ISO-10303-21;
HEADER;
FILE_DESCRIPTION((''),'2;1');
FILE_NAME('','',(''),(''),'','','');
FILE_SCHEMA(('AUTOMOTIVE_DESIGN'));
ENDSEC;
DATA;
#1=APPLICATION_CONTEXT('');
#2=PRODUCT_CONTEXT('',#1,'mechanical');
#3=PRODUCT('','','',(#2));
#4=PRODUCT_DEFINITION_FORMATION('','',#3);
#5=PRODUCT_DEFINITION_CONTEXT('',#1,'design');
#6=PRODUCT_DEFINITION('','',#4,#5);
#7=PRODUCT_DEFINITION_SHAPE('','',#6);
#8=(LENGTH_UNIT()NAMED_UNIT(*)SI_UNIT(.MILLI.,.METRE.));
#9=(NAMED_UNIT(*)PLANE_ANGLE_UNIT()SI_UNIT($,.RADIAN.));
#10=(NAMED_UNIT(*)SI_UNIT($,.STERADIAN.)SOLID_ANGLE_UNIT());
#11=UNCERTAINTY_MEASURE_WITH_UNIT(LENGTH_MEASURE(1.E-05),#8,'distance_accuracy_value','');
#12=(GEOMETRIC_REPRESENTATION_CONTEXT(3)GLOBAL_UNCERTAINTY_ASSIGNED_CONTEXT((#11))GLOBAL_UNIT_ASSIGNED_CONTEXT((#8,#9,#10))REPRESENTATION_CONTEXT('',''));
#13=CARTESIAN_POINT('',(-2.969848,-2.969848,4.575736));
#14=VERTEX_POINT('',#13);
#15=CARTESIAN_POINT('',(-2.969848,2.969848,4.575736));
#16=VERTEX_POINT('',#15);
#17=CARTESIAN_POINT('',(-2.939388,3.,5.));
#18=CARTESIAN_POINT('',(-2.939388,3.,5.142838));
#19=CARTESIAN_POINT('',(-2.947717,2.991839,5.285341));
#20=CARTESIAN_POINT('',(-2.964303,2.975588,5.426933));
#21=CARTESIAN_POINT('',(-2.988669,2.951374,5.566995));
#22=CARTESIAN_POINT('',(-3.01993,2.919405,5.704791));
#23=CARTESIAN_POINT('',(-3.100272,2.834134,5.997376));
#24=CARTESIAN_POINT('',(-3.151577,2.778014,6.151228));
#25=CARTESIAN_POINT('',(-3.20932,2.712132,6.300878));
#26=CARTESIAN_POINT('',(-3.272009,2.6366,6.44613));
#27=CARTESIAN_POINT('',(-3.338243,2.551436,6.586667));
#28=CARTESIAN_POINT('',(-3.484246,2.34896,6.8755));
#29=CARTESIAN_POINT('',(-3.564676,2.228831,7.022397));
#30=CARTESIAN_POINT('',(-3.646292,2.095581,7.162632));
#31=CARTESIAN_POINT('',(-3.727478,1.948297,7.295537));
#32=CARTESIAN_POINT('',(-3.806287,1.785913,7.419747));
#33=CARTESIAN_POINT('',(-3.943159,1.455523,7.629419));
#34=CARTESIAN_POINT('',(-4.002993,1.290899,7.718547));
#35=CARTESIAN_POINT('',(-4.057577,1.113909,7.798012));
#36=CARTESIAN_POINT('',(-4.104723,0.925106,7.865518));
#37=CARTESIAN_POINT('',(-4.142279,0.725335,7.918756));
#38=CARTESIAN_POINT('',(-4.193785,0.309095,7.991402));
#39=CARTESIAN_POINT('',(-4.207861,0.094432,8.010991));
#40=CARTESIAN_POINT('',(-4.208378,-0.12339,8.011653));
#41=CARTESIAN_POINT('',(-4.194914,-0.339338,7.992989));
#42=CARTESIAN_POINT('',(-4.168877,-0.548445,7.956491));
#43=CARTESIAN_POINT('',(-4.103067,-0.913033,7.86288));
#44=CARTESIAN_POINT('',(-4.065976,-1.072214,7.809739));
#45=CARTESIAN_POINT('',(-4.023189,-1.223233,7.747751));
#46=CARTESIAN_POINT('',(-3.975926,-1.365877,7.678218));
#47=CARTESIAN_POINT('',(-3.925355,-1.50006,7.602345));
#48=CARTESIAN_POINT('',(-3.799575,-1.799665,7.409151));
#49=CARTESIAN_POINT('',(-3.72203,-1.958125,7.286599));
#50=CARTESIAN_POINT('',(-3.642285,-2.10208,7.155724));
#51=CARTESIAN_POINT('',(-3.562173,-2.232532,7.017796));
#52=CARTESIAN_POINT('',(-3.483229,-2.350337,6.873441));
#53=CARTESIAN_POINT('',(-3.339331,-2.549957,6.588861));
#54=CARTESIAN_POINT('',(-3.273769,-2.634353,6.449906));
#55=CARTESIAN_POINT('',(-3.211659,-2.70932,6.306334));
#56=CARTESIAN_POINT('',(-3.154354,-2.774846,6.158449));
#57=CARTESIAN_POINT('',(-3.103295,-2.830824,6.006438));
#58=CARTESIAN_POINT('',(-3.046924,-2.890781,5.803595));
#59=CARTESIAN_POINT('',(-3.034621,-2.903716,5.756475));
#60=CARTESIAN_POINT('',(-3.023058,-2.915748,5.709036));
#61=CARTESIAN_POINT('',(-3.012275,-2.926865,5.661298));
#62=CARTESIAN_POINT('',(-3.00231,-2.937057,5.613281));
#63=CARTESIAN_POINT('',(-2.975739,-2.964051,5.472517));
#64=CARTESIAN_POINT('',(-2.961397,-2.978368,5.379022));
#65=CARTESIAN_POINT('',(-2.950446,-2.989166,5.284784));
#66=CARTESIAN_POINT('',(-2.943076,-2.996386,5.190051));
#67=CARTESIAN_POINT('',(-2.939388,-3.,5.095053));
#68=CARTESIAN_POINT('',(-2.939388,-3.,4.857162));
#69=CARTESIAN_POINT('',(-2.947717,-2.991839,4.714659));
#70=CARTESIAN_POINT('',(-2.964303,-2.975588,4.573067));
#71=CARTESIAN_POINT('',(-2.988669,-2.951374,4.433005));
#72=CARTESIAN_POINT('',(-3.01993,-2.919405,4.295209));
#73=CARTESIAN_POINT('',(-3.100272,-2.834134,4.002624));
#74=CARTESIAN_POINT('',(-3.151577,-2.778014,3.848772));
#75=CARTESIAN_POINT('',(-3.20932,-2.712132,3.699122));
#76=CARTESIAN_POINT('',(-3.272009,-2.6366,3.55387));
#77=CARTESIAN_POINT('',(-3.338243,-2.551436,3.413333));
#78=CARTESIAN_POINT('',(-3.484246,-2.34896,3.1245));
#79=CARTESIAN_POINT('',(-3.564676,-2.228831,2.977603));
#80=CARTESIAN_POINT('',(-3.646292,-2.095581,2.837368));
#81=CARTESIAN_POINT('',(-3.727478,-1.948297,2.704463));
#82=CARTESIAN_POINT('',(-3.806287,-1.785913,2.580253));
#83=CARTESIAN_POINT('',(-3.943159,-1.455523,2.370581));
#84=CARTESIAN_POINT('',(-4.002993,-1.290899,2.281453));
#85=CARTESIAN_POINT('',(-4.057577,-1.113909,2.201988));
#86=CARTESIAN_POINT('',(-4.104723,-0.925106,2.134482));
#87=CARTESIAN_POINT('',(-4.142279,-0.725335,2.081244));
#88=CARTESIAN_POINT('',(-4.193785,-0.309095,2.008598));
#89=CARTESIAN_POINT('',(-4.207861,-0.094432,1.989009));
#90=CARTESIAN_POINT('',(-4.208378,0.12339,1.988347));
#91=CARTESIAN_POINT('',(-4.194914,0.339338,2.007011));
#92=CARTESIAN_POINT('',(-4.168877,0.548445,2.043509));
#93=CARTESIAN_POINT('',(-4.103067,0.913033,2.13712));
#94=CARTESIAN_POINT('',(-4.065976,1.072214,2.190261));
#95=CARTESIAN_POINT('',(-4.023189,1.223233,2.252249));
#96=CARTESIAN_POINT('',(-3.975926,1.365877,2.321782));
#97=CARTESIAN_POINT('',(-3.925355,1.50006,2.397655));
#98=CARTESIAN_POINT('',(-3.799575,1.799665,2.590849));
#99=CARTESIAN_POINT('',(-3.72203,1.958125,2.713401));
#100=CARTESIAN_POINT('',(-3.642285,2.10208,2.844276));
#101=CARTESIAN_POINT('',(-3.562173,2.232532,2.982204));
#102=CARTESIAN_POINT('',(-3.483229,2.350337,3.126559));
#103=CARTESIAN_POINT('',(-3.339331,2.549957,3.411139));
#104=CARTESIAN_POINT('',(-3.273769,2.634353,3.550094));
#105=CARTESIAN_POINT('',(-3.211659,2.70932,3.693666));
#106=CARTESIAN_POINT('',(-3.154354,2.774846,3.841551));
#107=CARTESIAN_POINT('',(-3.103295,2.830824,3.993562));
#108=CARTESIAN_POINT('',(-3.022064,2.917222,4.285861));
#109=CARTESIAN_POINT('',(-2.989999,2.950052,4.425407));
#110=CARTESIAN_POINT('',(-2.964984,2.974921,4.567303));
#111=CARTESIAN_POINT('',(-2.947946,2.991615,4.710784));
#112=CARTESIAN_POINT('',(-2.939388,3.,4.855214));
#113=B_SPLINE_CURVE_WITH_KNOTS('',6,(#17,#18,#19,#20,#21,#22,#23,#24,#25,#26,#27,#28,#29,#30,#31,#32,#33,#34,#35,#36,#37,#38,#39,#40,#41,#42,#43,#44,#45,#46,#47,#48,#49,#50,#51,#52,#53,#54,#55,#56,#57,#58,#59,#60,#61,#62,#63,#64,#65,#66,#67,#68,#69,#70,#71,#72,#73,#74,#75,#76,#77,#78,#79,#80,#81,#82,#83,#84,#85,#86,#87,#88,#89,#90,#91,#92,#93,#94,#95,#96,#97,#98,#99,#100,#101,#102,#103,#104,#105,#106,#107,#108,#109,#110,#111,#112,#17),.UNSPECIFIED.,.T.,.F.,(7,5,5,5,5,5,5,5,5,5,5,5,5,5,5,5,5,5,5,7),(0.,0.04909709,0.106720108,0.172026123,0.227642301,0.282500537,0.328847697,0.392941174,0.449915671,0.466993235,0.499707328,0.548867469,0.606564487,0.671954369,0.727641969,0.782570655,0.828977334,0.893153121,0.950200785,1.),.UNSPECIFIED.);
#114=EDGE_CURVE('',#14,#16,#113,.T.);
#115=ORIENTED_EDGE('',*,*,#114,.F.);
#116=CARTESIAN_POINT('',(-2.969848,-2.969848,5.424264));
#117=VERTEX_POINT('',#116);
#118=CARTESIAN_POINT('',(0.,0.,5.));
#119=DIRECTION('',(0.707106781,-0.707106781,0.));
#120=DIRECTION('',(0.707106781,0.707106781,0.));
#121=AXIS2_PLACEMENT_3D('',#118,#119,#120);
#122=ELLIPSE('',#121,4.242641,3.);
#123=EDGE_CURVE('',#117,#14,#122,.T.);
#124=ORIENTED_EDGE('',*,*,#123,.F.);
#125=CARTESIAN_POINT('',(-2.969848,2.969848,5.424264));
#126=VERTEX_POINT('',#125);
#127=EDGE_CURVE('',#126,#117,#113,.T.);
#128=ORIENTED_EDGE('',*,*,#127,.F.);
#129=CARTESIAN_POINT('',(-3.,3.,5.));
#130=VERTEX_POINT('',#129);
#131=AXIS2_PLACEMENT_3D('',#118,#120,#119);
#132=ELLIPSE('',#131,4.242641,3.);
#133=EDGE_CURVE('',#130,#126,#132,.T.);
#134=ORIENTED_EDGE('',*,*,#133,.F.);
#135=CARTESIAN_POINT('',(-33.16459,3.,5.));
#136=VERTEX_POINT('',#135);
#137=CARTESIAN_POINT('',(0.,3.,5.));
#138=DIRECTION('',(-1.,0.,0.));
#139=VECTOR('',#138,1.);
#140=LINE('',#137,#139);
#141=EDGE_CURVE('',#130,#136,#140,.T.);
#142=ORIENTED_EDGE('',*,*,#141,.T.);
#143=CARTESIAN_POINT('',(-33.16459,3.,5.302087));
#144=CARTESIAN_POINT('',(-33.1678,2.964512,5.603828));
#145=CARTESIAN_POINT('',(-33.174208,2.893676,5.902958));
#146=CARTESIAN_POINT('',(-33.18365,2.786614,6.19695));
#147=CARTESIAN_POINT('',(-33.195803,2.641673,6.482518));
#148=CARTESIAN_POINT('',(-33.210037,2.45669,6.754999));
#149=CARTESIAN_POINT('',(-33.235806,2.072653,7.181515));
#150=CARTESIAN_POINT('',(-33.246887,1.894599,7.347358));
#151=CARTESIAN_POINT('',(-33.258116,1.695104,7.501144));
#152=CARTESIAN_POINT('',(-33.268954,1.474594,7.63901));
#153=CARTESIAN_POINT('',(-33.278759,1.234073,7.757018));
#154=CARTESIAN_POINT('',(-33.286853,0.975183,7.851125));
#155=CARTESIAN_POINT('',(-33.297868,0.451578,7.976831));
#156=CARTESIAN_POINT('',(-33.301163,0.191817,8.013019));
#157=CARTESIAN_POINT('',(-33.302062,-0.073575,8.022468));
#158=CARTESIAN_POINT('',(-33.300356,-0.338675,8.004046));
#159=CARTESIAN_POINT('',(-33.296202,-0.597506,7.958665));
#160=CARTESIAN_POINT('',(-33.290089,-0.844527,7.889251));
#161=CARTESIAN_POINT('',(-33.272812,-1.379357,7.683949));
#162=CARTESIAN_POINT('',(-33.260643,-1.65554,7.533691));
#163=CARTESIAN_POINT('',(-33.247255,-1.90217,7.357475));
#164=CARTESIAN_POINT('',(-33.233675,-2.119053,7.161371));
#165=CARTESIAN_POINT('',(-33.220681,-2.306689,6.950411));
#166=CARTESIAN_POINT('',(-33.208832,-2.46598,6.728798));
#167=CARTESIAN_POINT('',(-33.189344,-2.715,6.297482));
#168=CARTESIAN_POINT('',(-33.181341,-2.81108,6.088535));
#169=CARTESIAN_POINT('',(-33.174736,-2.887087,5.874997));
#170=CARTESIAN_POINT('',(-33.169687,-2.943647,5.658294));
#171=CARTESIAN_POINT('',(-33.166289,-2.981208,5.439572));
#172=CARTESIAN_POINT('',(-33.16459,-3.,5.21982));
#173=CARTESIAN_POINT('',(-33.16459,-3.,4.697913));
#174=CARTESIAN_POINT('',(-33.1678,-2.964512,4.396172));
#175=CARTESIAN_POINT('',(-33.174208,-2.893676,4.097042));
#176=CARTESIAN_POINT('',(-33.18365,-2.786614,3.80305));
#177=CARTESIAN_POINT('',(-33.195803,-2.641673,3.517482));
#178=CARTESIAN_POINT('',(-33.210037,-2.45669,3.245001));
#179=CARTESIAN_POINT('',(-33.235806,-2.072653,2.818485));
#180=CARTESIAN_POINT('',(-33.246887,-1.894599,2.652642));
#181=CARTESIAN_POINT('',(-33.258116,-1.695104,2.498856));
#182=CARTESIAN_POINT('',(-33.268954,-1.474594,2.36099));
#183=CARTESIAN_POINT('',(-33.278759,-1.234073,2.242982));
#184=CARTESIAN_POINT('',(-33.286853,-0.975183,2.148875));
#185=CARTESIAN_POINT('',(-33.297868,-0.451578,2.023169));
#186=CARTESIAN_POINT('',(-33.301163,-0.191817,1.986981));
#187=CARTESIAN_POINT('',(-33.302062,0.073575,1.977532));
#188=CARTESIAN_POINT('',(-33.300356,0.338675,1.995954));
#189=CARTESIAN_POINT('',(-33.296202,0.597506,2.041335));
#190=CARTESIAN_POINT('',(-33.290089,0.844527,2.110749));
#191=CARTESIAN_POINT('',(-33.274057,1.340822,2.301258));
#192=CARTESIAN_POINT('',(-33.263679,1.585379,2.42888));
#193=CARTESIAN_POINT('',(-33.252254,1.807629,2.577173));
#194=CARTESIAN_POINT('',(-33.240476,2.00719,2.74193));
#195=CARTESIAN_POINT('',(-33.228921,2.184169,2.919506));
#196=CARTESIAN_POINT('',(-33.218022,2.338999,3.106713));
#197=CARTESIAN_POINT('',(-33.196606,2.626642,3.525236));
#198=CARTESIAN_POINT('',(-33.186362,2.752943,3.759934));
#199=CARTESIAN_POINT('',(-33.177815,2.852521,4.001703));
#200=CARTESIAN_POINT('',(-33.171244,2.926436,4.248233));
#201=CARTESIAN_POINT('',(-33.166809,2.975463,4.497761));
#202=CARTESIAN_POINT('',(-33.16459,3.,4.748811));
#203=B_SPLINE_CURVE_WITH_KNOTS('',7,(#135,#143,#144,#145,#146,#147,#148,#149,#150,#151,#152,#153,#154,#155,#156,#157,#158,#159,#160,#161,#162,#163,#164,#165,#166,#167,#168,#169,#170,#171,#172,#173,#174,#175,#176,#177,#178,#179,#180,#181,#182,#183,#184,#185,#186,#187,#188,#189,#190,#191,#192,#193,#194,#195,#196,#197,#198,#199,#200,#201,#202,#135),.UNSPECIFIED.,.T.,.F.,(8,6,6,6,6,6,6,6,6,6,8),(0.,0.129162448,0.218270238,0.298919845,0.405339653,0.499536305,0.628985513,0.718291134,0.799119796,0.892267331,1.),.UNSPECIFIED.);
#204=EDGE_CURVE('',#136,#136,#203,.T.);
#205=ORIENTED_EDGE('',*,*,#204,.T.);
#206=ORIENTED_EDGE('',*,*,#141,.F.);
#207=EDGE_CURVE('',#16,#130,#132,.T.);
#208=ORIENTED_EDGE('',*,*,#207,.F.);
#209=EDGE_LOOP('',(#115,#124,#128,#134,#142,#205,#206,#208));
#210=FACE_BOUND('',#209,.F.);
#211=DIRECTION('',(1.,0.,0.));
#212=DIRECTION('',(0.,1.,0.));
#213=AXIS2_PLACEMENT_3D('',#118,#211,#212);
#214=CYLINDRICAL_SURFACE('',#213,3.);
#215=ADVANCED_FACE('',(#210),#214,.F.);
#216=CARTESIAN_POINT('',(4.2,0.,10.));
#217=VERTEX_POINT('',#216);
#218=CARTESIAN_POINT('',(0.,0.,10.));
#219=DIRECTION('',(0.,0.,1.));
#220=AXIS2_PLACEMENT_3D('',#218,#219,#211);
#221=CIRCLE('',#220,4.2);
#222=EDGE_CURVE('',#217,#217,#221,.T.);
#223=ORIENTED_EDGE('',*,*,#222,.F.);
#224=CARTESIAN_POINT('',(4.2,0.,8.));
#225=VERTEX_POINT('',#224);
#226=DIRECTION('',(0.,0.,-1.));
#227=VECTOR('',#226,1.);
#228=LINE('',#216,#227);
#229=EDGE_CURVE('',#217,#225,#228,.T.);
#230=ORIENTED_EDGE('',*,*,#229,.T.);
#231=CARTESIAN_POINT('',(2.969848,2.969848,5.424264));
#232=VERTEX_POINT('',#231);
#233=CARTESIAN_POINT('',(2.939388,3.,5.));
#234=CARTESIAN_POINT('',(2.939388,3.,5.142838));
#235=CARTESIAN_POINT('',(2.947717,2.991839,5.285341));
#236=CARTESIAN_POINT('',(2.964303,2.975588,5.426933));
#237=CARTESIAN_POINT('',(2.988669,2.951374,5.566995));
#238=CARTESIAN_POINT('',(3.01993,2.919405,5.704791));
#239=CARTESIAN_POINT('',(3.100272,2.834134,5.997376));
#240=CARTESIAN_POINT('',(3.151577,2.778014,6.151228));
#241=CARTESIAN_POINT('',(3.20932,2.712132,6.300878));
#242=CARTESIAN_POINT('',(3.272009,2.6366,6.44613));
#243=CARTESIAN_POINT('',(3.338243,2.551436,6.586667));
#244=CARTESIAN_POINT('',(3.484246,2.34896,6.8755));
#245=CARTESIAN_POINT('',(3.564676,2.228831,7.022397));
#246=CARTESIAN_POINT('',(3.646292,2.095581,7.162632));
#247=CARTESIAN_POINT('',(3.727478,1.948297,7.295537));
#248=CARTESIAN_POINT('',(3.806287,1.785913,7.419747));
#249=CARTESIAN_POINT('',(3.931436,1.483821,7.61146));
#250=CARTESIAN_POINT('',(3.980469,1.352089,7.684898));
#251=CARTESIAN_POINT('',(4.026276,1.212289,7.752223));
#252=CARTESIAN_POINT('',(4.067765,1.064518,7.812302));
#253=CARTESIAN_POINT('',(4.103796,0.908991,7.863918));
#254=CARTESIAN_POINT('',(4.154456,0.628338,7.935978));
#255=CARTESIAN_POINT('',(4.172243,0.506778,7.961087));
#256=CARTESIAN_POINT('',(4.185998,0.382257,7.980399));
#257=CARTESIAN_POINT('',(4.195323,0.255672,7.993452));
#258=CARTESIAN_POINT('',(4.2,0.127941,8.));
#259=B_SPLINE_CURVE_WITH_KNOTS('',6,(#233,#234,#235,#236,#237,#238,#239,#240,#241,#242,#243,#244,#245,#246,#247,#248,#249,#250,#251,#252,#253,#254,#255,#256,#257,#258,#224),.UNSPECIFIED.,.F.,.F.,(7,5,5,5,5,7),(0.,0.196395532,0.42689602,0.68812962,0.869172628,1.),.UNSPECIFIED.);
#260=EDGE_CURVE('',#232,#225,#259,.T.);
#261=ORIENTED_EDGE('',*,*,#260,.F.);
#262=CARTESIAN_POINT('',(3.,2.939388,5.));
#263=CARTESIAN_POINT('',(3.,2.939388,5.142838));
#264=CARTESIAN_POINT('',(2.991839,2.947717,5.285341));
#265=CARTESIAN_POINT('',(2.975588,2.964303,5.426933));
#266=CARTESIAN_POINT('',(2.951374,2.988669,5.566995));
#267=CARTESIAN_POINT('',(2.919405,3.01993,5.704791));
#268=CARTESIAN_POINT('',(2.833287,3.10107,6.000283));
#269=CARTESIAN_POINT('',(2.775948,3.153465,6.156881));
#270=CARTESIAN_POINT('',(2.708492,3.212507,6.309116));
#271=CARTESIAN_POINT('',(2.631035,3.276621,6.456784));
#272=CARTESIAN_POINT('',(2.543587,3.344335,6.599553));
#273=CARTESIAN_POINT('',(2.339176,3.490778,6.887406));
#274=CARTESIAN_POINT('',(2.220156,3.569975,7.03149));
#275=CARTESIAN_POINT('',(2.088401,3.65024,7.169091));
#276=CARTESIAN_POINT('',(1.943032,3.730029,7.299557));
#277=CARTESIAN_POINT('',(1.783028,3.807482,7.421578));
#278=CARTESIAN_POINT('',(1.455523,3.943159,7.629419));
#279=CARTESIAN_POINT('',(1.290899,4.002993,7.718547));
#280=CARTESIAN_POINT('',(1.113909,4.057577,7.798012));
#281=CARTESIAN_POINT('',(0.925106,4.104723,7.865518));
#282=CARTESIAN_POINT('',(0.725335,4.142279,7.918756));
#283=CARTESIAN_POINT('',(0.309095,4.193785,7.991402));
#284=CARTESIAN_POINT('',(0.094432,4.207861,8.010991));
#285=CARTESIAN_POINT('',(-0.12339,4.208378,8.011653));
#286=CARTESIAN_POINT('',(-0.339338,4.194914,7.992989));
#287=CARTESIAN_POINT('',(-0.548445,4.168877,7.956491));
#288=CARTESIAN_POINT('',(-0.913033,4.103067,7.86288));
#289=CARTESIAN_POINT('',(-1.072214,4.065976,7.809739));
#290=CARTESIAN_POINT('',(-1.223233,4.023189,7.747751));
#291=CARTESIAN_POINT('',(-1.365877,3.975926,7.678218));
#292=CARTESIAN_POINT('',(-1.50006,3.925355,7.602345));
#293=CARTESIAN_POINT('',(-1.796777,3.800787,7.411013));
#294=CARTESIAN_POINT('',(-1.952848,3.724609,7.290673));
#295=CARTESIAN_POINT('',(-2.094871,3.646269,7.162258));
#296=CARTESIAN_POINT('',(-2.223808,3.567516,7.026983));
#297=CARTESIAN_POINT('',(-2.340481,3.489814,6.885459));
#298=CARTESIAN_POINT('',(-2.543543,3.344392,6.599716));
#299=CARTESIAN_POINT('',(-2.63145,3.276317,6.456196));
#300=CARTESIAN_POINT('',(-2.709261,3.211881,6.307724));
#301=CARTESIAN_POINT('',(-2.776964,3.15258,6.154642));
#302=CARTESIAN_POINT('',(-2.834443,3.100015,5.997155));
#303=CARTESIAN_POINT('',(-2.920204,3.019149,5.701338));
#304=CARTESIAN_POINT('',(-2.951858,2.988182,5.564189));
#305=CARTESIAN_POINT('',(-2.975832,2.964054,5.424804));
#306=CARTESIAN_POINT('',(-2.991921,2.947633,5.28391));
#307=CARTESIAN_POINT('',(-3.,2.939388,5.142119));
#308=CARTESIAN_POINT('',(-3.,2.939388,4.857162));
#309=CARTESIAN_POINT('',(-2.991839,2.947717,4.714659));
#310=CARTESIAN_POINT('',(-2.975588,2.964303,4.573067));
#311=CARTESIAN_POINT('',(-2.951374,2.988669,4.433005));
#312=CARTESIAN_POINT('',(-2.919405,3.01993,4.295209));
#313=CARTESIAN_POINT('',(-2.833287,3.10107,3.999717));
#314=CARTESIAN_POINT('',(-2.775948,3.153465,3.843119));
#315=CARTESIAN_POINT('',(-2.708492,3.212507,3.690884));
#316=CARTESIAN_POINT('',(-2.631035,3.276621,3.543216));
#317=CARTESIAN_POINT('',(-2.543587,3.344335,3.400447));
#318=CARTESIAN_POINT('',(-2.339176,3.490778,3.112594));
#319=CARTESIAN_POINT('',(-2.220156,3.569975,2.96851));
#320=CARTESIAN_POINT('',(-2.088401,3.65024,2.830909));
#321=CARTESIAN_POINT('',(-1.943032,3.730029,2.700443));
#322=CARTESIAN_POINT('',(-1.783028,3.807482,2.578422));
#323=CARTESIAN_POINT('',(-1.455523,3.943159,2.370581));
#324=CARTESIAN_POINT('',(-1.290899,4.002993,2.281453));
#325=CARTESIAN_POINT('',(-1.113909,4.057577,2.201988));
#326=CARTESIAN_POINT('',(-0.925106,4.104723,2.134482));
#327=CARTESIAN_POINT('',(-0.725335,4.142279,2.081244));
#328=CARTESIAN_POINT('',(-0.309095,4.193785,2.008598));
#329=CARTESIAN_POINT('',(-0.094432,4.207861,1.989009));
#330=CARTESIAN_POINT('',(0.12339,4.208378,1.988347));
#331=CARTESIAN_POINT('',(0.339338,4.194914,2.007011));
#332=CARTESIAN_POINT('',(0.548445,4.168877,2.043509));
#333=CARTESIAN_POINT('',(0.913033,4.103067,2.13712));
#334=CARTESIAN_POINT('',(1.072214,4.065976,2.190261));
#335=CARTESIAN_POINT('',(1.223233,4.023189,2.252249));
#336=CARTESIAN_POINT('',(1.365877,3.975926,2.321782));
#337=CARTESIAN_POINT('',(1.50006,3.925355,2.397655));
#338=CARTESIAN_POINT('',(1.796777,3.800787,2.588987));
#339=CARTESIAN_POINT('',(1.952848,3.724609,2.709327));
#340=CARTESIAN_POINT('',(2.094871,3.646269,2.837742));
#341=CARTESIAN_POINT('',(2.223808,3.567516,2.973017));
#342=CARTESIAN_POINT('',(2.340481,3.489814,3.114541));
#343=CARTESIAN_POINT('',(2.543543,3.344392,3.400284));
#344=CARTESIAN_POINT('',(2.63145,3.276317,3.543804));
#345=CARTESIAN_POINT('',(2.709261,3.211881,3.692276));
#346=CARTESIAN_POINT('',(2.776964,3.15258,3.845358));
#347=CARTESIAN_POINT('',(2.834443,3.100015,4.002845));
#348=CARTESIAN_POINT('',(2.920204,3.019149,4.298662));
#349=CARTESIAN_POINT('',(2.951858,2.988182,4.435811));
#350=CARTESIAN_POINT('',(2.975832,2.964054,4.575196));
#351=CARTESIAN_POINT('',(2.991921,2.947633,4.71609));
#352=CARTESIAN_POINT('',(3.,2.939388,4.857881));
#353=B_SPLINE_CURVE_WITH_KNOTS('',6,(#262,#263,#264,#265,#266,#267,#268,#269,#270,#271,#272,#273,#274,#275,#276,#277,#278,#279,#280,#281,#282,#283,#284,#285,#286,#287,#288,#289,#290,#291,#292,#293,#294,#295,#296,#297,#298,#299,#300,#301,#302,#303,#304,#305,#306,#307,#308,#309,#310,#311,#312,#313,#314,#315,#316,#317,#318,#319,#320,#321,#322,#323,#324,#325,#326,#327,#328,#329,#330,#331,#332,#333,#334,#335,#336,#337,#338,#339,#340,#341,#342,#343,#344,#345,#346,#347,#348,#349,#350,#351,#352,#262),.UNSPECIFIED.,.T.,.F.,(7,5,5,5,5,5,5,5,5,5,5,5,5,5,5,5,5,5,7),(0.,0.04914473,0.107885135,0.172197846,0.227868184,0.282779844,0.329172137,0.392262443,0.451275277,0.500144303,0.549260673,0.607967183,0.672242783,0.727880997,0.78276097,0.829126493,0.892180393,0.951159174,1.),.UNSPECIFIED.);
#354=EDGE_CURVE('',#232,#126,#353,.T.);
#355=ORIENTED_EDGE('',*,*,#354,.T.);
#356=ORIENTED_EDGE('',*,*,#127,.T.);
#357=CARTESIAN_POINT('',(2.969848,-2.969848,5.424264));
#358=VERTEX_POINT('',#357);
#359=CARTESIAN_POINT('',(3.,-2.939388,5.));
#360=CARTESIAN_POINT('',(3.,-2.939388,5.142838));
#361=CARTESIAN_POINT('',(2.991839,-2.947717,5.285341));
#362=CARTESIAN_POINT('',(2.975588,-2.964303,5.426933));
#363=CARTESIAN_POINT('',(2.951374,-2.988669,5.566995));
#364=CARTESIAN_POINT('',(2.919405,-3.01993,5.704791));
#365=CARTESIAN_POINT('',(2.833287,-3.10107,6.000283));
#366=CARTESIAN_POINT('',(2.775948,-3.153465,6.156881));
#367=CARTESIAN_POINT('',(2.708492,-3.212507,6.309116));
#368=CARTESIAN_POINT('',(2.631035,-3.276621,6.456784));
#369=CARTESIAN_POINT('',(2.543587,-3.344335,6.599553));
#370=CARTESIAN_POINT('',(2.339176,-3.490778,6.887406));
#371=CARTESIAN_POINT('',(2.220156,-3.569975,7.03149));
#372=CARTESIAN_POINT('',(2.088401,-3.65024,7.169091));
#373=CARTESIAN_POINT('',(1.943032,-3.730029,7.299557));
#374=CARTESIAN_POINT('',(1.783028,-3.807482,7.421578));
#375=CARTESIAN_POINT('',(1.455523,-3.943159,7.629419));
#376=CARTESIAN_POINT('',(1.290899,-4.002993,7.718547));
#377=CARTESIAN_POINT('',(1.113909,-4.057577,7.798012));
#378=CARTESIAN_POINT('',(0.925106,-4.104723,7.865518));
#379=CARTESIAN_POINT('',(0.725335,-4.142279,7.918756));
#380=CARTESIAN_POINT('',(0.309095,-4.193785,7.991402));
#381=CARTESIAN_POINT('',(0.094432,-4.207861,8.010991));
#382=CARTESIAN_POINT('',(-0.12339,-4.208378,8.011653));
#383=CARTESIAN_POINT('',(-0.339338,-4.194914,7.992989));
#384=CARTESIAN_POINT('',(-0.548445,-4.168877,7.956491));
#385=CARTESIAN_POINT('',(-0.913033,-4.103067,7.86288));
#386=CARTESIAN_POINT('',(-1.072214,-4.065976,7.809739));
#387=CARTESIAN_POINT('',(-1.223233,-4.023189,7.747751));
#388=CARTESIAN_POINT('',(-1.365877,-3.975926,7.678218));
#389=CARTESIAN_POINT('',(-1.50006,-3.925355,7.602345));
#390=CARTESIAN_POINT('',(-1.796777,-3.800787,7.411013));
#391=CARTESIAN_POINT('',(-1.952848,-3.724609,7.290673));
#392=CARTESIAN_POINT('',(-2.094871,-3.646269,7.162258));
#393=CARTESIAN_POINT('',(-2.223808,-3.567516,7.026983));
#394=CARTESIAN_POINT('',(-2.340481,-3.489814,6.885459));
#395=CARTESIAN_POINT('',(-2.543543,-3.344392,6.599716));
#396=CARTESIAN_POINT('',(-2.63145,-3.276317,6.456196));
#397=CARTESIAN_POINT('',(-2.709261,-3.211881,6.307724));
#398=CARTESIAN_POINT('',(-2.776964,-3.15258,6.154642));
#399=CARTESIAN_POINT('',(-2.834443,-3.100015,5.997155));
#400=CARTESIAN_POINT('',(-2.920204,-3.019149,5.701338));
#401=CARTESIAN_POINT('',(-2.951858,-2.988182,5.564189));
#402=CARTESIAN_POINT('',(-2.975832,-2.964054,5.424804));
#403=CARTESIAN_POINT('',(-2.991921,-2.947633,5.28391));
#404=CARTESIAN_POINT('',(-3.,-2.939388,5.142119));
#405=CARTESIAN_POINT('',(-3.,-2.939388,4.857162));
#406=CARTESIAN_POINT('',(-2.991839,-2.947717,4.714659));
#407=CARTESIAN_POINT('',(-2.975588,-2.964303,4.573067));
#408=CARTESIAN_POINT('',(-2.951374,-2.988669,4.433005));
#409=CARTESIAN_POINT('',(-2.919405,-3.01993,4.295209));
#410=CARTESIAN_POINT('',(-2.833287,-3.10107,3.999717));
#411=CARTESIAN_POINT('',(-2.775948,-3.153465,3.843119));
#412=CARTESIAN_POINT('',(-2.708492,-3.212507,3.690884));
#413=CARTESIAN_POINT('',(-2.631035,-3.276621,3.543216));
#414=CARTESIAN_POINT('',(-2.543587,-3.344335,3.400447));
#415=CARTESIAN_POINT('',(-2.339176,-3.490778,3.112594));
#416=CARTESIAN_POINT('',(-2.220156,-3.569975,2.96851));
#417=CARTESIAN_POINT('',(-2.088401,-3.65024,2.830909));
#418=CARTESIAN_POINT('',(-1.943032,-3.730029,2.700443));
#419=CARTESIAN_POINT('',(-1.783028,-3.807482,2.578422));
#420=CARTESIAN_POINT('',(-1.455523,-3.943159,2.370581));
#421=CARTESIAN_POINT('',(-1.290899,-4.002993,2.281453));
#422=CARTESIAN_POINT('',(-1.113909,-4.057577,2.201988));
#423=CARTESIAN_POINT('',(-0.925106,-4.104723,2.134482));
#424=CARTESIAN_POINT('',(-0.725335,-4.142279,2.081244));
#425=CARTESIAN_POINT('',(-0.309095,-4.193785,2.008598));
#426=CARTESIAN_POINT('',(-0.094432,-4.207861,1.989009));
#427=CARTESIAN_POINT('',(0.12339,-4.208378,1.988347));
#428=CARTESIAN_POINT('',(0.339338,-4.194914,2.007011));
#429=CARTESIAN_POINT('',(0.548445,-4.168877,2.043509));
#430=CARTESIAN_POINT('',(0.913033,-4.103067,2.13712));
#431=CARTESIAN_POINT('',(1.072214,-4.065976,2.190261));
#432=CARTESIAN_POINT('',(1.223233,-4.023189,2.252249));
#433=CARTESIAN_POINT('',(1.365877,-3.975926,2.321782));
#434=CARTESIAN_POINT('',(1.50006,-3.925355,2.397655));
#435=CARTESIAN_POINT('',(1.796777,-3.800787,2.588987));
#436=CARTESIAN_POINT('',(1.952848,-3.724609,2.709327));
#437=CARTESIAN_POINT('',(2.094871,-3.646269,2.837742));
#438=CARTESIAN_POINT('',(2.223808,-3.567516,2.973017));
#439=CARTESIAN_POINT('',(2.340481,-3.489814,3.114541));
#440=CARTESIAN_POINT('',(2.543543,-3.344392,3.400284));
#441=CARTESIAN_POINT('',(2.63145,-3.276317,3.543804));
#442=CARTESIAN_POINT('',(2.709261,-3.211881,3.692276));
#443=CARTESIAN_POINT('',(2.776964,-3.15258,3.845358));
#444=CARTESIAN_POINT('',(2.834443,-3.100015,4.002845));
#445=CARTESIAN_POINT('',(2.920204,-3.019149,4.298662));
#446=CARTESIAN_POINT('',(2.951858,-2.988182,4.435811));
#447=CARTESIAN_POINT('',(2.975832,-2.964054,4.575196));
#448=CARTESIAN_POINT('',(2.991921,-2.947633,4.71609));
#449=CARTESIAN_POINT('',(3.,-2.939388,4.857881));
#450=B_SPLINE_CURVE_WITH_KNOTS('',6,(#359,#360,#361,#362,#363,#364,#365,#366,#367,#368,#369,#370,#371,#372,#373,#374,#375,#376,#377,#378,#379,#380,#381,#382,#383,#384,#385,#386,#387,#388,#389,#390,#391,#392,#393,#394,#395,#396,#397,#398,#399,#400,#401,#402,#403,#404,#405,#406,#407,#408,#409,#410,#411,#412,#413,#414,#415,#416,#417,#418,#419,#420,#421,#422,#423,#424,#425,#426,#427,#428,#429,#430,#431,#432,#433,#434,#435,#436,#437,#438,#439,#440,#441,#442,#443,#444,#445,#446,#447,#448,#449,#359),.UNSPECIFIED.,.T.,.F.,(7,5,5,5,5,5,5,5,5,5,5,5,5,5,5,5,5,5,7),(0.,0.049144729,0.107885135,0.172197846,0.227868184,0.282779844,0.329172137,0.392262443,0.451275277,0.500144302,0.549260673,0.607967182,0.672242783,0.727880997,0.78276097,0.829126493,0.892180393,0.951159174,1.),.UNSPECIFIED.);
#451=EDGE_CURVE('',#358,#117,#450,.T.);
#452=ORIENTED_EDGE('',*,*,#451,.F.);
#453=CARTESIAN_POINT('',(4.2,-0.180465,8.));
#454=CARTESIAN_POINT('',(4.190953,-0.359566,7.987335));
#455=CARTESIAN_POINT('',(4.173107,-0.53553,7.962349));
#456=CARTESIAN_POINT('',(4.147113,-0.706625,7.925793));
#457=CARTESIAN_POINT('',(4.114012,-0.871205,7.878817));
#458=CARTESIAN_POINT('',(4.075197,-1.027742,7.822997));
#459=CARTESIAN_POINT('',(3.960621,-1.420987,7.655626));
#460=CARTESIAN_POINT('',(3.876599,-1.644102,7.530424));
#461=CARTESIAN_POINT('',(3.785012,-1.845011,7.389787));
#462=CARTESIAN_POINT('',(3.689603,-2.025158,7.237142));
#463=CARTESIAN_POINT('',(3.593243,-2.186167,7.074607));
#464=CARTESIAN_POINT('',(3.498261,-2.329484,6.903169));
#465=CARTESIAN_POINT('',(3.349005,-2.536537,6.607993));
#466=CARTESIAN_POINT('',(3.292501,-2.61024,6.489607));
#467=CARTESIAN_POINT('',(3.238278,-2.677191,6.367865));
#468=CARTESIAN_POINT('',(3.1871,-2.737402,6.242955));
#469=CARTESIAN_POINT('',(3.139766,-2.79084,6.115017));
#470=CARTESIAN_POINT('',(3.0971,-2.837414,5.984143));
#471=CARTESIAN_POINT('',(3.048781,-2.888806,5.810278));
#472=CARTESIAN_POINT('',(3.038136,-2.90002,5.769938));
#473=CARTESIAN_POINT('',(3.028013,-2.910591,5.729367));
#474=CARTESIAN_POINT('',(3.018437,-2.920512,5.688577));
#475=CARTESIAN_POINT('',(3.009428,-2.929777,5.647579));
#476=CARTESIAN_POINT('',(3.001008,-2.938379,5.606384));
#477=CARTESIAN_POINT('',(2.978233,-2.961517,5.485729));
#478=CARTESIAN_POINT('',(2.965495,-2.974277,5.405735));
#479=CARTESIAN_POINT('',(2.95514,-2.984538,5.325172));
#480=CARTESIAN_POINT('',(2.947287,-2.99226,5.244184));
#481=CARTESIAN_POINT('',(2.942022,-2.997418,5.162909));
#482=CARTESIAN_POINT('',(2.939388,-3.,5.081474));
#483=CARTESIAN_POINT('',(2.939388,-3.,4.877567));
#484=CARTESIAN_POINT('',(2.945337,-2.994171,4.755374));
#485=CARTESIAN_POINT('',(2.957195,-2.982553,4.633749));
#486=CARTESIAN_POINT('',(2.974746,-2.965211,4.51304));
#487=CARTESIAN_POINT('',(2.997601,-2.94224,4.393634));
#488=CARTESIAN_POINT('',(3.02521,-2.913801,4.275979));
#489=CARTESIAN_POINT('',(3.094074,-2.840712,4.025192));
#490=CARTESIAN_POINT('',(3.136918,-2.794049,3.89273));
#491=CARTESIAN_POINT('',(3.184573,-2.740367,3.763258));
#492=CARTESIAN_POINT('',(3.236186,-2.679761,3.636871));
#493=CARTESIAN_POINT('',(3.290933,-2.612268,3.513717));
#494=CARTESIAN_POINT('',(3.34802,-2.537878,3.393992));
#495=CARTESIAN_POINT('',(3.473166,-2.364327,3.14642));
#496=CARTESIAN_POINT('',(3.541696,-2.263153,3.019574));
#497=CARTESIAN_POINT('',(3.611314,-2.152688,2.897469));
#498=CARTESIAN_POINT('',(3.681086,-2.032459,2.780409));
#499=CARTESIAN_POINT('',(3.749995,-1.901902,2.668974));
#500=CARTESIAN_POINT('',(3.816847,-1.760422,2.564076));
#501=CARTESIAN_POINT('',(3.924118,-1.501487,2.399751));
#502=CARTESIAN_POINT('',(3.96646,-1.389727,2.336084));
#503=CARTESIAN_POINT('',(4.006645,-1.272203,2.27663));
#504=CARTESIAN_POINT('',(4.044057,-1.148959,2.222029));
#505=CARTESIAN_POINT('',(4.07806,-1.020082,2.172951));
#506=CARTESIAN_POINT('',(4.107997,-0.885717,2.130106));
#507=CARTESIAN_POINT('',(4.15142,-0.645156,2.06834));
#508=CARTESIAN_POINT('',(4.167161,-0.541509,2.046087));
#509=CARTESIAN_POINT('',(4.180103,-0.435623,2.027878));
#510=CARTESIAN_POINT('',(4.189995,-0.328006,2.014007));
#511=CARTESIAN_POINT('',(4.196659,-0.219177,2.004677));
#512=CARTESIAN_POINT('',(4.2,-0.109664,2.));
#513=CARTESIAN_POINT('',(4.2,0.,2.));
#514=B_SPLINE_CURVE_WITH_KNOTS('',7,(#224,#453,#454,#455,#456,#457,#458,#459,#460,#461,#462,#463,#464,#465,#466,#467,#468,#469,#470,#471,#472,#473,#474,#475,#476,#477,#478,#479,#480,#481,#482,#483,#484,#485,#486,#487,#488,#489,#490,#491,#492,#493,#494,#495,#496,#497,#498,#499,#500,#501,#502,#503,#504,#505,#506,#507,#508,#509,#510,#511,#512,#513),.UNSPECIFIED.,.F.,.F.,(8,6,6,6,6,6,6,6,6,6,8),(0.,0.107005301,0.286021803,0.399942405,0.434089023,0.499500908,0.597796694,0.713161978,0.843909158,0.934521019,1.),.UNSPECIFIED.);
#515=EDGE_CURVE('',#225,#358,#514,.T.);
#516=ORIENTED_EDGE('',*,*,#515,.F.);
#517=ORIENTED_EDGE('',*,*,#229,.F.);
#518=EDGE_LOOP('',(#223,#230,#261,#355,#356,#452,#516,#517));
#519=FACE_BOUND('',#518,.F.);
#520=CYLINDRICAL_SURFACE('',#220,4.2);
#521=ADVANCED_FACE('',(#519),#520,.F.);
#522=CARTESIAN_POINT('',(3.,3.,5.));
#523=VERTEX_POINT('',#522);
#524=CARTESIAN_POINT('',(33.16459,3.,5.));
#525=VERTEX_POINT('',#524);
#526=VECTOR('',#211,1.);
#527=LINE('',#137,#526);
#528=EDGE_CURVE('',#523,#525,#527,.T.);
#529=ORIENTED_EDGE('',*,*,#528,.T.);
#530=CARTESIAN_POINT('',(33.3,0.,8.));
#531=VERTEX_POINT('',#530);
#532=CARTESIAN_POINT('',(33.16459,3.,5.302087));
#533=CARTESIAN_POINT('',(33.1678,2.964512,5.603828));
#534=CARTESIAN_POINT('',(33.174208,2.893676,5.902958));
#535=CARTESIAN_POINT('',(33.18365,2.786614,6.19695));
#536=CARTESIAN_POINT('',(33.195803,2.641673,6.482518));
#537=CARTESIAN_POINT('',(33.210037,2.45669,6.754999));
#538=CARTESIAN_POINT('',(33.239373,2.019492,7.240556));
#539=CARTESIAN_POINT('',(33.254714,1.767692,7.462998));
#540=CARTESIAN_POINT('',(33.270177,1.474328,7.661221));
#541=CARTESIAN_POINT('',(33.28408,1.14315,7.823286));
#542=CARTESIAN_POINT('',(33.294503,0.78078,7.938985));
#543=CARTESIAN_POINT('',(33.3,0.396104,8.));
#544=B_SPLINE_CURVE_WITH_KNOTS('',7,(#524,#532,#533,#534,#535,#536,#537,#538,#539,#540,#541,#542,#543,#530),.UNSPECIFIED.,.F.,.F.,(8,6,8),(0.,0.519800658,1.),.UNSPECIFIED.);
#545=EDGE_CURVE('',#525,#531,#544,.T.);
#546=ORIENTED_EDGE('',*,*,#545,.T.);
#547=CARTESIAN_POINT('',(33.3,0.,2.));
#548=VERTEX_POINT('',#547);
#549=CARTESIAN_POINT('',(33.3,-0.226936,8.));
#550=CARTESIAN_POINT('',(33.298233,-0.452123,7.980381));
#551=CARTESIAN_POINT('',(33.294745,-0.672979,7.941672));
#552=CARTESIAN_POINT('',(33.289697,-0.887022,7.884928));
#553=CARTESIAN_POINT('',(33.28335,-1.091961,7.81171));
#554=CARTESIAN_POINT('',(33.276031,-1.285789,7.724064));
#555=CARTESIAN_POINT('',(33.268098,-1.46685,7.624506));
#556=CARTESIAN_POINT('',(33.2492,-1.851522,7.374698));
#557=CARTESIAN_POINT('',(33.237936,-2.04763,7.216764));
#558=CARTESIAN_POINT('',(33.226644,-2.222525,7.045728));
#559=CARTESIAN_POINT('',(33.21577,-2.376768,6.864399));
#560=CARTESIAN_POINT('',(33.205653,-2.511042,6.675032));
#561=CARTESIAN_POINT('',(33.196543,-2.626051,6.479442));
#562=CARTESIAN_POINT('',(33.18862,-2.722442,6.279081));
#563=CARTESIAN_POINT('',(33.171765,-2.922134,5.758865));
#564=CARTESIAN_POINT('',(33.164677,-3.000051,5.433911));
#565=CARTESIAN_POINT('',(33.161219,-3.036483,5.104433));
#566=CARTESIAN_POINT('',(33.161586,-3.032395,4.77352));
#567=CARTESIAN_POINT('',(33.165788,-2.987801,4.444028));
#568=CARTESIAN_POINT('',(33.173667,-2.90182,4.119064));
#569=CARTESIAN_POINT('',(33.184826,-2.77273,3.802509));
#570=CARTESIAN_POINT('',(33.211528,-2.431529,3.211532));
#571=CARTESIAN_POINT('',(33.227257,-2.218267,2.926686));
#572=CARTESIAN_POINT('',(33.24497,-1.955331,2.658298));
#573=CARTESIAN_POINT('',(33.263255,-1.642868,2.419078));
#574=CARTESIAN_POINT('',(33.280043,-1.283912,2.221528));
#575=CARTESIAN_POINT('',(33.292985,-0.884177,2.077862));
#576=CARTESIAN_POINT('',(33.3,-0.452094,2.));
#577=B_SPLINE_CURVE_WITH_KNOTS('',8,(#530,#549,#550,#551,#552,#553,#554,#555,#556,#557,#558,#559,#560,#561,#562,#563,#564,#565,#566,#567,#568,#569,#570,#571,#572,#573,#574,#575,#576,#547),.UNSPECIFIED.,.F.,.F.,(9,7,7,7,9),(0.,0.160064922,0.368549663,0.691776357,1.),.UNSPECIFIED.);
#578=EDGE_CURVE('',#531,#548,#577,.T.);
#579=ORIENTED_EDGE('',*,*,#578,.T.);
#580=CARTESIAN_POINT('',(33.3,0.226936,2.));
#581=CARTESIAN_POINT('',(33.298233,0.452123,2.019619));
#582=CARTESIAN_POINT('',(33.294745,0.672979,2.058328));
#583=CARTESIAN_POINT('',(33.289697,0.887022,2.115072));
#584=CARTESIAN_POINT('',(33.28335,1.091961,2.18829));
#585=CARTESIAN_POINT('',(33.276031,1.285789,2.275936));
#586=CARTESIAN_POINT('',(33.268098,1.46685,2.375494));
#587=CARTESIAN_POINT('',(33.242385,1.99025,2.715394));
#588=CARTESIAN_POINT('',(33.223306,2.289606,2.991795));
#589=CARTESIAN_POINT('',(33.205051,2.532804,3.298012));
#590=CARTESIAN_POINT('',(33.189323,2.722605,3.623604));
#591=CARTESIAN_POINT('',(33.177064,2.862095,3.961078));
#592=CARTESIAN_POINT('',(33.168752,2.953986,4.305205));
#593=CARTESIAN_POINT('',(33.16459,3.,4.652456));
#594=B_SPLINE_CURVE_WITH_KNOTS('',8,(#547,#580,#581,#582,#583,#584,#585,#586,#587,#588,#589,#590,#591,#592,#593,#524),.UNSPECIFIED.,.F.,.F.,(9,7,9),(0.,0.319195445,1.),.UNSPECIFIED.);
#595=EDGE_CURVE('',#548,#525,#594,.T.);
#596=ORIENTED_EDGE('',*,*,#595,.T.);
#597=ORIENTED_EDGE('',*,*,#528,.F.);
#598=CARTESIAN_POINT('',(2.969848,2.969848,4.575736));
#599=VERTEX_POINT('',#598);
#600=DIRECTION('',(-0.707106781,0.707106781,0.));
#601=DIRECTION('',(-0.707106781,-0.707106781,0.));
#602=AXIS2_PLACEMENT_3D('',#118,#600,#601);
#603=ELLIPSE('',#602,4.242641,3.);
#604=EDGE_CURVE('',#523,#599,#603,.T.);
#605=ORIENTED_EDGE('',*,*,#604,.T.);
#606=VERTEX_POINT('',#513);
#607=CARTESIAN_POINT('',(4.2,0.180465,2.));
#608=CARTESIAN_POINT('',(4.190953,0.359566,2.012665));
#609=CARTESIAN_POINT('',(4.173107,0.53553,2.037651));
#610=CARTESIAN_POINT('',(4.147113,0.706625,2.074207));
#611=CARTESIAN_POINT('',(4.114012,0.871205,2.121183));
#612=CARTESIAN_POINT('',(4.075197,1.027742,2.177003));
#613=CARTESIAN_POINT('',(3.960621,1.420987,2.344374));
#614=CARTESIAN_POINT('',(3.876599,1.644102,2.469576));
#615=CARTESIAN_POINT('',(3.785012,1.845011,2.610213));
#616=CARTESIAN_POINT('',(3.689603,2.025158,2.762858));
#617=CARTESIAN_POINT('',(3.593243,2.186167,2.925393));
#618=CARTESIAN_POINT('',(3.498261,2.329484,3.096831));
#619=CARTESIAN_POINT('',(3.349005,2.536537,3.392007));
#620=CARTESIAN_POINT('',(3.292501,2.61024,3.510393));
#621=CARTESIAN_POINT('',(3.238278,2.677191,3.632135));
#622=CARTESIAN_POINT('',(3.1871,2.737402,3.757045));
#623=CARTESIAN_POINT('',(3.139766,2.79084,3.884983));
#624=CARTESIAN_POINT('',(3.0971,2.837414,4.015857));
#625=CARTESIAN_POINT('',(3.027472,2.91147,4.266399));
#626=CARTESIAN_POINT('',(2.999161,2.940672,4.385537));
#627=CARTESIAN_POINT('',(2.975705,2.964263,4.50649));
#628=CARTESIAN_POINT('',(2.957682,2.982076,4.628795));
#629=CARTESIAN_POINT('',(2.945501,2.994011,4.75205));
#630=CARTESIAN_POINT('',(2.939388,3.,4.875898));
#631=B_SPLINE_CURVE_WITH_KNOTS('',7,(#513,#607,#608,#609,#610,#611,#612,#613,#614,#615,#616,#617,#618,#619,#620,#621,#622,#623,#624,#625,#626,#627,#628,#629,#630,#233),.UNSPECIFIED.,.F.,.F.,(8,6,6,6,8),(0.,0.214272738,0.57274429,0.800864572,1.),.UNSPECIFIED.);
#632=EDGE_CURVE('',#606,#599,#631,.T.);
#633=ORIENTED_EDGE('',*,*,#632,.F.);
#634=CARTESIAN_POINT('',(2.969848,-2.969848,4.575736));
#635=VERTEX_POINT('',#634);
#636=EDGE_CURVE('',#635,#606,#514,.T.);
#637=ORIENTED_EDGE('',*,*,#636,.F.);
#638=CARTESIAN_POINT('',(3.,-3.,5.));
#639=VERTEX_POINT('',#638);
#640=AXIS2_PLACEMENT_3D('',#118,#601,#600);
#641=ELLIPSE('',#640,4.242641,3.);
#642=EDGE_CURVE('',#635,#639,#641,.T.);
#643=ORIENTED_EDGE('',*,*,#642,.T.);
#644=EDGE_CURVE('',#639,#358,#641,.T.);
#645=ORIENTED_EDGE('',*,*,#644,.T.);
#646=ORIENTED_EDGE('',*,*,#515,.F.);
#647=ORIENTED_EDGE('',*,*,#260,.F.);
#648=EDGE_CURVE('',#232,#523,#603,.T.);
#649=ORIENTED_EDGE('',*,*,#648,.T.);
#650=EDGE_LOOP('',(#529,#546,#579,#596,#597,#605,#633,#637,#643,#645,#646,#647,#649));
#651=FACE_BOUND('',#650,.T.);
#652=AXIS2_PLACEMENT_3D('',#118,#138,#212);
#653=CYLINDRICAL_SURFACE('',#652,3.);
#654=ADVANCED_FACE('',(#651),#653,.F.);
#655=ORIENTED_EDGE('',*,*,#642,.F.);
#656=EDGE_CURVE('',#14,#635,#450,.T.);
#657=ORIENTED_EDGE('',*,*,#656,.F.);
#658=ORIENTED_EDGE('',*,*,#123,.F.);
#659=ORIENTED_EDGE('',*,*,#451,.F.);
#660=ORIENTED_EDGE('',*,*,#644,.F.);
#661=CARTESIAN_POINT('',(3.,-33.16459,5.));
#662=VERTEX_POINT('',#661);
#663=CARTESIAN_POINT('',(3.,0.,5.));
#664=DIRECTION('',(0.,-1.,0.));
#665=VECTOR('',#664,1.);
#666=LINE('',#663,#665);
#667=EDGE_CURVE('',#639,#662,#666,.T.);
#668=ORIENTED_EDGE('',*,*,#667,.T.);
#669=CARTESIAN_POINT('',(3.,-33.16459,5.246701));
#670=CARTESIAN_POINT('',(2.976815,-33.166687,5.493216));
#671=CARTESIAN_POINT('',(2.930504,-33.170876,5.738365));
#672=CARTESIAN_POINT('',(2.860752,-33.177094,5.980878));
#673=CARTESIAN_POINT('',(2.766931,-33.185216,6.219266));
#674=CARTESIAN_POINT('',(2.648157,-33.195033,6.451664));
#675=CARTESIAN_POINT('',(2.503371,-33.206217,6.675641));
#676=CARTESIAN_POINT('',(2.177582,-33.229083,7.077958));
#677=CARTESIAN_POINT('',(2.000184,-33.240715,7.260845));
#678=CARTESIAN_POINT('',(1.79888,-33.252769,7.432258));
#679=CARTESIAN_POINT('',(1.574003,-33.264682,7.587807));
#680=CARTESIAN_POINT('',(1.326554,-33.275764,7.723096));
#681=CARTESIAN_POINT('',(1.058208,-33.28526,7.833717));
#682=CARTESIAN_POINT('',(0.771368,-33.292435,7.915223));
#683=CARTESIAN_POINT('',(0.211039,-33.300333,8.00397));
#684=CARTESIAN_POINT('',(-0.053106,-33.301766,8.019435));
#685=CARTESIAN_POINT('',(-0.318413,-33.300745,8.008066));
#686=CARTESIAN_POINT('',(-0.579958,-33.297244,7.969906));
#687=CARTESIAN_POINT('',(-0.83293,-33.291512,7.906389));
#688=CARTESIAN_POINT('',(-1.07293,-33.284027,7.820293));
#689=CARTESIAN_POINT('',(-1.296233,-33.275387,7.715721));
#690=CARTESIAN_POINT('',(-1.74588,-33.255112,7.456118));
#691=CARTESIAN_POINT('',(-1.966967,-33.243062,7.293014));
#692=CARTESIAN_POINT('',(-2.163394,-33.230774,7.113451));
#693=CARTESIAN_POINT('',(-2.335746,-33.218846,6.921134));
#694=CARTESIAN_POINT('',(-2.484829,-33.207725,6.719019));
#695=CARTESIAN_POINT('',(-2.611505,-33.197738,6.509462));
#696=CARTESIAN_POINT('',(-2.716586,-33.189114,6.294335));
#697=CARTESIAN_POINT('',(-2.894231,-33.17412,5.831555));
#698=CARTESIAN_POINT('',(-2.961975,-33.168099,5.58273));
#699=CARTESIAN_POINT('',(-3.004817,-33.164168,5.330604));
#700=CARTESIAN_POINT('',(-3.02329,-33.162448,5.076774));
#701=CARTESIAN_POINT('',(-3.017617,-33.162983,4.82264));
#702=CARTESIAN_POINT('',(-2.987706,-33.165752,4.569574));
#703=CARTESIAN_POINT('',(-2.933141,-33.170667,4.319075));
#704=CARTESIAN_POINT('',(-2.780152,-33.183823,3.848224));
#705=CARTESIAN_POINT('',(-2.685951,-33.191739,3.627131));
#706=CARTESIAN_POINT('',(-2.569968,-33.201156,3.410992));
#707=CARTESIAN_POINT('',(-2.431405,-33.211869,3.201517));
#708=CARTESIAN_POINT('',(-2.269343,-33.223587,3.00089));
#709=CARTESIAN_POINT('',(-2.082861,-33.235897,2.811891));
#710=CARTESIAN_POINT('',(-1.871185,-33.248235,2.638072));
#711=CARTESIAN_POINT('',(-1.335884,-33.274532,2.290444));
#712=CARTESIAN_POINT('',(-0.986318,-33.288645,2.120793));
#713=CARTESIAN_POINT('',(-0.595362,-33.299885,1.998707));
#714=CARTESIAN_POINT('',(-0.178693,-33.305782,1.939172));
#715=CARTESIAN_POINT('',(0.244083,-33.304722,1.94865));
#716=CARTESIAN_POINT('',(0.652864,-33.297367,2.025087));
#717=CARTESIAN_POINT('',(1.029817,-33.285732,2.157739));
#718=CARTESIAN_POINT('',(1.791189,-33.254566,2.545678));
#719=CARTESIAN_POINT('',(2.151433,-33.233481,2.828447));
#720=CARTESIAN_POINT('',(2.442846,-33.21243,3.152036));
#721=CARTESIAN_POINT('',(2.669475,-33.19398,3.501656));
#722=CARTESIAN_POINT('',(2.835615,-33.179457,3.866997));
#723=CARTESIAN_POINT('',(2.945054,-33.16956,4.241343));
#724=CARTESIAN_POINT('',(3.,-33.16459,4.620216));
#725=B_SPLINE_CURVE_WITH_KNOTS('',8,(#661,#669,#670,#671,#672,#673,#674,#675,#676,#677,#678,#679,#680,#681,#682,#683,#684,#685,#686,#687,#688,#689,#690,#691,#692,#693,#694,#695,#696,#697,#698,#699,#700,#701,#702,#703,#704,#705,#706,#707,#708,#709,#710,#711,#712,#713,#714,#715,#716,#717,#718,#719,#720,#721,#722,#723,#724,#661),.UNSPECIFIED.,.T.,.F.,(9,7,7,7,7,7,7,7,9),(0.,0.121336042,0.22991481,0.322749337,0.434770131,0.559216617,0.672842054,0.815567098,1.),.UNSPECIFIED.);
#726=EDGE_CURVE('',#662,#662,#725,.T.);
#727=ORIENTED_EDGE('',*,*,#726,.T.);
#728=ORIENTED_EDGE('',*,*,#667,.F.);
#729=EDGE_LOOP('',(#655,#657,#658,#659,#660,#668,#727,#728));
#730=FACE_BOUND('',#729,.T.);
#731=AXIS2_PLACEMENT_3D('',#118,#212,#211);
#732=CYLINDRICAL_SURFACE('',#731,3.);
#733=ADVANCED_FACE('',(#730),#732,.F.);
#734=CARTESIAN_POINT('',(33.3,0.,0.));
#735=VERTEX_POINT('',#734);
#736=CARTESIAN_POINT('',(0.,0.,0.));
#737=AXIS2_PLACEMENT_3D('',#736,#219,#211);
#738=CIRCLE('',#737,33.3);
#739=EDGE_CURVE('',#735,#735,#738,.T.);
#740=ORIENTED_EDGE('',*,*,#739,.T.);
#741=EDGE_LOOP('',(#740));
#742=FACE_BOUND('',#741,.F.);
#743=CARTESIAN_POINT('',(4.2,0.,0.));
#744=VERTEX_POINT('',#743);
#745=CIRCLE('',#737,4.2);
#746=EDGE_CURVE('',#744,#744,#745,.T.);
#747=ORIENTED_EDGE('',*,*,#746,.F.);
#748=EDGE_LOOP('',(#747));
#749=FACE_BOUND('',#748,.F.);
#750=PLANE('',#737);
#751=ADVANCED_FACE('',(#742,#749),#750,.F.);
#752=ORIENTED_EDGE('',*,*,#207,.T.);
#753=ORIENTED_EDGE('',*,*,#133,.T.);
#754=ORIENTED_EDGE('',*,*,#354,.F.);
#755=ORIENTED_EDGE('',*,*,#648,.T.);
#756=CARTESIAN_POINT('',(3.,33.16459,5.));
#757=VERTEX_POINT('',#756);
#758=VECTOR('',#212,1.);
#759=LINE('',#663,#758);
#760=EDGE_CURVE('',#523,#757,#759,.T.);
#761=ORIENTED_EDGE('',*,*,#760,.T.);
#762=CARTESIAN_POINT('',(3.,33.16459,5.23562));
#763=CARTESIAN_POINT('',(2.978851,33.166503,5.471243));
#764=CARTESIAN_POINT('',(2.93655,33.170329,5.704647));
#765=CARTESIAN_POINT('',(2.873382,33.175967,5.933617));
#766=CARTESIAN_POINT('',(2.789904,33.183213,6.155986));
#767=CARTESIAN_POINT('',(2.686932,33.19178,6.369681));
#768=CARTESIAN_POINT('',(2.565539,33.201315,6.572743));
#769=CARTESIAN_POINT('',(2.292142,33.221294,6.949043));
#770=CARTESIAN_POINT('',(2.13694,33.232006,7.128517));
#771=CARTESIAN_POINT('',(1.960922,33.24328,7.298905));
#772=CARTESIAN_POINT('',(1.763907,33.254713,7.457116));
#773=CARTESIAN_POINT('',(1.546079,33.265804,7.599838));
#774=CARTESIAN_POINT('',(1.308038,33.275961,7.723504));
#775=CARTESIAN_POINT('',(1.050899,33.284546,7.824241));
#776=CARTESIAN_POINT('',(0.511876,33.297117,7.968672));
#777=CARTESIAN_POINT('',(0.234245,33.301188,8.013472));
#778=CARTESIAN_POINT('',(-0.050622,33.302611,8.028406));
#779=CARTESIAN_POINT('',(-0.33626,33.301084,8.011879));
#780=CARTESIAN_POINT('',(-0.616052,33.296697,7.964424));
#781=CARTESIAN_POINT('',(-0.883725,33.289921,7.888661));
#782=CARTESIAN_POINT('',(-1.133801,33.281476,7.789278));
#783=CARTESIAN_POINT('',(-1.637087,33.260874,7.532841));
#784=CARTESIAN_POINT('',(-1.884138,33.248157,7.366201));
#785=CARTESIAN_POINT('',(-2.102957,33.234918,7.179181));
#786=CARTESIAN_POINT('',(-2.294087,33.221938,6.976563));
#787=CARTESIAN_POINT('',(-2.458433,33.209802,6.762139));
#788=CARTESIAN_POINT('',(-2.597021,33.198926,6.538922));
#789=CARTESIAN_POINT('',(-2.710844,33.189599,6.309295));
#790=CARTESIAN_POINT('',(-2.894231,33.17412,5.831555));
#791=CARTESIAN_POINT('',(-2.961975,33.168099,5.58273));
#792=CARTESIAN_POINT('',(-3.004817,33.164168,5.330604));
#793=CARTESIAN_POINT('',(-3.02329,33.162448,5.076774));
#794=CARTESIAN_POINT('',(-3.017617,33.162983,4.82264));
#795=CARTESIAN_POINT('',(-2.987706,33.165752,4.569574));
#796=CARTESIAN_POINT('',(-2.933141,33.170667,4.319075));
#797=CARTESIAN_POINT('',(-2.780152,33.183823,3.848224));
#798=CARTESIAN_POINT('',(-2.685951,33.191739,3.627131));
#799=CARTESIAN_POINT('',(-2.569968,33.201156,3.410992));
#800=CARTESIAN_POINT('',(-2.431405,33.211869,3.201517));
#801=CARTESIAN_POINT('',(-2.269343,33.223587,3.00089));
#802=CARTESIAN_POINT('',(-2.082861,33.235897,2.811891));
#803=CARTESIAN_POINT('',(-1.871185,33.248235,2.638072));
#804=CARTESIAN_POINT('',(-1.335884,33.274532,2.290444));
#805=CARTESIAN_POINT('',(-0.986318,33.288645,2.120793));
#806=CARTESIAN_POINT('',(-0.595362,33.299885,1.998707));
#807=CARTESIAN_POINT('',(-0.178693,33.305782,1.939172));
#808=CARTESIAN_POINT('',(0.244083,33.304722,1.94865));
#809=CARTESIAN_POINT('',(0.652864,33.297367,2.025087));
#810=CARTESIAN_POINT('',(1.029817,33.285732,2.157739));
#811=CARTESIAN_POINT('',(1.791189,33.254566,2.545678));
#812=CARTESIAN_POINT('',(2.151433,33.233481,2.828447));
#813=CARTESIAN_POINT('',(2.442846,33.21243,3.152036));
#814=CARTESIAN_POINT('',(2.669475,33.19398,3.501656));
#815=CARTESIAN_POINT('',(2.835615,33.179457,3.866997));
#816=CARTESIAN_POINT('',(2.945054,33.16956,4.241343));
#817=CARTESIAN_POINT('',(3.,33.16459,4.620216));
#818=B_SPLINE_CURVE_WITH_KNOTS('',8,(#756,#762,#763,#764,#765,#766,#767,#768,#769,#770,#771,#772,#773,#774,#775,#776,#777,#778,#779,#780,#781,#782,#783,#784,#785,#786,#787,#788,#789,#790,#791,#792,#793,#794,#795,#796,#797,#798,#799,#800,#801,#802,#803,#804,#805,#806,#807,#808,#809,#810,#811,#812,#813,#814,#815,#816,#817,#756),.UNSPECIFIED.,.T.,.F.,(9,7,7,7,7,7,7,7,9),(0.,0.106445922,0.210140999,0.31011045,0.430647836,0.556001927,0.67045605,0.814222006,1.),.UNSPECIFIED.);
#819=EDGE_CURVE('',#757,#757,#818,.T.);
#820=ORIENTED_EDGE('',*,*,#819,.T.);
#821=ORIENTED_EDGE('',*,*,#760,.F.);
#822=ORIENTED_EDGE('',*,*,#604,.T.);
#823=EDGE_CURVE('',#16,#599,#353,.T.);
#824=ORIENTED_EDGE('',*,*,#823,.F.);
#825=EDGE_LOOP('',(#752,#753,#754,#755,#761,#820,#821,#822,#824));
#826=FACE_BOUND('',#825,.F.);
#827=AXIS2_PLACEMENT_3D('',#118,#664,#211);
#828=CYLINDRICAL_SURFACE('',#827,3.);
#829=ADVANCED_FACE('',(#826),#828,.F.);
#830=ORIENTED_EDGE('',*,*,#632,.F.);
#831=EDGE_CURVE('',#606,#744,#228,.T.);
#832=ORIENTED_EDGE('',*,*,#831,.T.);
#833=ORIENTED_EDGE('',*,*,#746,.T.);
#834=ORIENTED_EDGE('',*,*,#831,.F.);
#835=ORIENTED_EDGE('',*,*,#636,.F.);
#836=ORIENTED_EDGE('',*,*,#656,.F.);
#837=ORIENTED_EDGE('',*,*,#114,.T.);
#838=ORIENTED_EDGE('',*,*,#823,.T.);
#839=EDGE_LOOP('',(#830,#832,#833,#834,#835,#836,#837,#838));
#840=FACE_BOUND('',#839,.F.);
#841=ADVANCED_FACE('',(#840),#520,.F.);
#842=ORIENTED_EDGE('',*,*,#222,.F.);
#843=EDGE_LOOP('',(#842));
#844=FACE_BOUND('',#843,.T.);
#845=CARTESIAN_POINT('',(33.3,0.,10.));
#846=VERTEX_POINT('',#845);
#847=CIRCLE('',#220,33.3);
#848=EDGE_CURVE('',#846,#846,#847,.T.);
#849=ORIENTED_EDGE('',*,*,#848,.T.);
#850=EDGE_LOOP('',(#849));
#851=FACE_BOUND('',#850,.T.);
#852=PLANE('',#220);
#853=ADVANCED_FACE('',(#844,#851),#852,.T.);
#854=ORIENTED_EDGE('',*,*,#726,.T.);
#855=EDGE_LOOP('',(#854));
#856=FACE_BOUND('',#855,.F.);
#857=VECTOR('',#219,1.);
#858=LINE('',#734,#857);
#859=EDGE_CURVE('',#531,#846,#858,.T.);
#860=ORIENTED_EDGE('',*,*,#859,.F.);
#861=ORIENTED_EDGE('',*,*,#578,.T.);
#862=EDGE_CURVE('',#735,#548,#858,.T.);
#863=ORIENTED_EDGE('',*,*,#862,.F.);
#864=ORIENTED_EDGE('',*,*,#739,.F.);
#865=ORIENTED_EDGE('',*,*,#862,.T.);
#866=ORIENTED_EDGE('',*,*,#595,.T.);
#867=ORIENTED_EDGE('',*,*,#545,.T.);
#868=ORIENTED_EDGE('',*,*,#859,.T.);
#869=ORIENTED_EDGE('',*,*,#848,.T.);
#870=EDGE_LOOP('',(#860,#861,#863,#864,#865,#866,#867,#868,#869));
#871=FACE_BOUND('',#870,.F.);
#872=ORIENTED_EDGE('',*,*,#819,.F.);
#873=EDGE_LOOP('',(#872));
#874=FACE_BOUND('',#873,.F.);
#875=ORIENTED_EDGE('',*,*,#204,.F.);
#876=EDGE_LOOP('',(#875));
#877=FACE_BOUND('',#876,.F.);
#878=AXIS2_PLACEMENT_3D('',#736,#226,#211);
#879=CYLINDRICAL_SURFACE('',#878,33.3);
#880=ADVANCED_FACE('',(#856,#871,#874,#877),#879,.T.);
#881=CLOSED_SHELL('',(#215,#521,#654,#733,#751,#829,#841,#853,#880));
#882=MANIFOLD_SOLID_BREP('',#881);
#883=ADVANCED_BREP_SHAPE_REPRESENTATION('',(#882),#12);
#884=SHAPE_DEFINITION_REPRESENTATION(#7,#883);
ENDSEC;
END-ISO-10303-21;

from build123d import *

# Parameters (mm, degrees)
SKETCH008_R          = 33.3
PAD004_DEPTH         = 10
SKETCH009_R          = 3
POCKET004_DEPTH      = 100
POCKET004_DEPTH_BACK = 100
SKETCH010_R          = 3
POCKET005_DEPTH      = 100
POCKET005_DEPTH_BACK = 100
SKETCH011_R          = 4.2
POCKET006_DEPTH      = 10.001


with BuildPart() as part:
    # Sketch008 → Pad004 (new body)
    with BuildSketch(Plane.XY):
        Circle(SKETCH008_R)
    extrude(amount=PAD004_DEPTH)

    # Sketch009 → Pocket004 (cut, two sides)
    with BuildSketch(Plane.YZ) as pocket004_sk:
        with Locations((0, 5)):
            Circle(SKETCH009_R)
    extrude(amount=-POCKET004_DEPTH, mode=Mode.SUBTRACT)
    extrude(pocket004_sk.sketch, amount=POCKET004_DEPTH_BACK, mode=Mode.SUBTRACT)

    # Sketch010 → Pocket005 (cut, two sides)
    with BuildSketch(Plane.XZ) as pocket005_sk:
        with Locations((0, 5)):
            Circle(SKETCH010_R)
    extrude(amount=-POCKET005_DEPTH, mode=Mode.SUBTRACT)
    extrude(pocket005_sk.sketch, amount=POCKET005_DEPTH_BACK, mode=Mode.SUBTRACT)

    # Sketch011 (on Face3 of Pocket005) → Pocket006 (cut, through all)
    with BuildSketch(Plane.XY.offset(10)):
        Circle(SKETCH011_R)
    extrude(amount=-POCKET006_DEPTH, mode=Mode.SUBTRACT)


solid = part.part
